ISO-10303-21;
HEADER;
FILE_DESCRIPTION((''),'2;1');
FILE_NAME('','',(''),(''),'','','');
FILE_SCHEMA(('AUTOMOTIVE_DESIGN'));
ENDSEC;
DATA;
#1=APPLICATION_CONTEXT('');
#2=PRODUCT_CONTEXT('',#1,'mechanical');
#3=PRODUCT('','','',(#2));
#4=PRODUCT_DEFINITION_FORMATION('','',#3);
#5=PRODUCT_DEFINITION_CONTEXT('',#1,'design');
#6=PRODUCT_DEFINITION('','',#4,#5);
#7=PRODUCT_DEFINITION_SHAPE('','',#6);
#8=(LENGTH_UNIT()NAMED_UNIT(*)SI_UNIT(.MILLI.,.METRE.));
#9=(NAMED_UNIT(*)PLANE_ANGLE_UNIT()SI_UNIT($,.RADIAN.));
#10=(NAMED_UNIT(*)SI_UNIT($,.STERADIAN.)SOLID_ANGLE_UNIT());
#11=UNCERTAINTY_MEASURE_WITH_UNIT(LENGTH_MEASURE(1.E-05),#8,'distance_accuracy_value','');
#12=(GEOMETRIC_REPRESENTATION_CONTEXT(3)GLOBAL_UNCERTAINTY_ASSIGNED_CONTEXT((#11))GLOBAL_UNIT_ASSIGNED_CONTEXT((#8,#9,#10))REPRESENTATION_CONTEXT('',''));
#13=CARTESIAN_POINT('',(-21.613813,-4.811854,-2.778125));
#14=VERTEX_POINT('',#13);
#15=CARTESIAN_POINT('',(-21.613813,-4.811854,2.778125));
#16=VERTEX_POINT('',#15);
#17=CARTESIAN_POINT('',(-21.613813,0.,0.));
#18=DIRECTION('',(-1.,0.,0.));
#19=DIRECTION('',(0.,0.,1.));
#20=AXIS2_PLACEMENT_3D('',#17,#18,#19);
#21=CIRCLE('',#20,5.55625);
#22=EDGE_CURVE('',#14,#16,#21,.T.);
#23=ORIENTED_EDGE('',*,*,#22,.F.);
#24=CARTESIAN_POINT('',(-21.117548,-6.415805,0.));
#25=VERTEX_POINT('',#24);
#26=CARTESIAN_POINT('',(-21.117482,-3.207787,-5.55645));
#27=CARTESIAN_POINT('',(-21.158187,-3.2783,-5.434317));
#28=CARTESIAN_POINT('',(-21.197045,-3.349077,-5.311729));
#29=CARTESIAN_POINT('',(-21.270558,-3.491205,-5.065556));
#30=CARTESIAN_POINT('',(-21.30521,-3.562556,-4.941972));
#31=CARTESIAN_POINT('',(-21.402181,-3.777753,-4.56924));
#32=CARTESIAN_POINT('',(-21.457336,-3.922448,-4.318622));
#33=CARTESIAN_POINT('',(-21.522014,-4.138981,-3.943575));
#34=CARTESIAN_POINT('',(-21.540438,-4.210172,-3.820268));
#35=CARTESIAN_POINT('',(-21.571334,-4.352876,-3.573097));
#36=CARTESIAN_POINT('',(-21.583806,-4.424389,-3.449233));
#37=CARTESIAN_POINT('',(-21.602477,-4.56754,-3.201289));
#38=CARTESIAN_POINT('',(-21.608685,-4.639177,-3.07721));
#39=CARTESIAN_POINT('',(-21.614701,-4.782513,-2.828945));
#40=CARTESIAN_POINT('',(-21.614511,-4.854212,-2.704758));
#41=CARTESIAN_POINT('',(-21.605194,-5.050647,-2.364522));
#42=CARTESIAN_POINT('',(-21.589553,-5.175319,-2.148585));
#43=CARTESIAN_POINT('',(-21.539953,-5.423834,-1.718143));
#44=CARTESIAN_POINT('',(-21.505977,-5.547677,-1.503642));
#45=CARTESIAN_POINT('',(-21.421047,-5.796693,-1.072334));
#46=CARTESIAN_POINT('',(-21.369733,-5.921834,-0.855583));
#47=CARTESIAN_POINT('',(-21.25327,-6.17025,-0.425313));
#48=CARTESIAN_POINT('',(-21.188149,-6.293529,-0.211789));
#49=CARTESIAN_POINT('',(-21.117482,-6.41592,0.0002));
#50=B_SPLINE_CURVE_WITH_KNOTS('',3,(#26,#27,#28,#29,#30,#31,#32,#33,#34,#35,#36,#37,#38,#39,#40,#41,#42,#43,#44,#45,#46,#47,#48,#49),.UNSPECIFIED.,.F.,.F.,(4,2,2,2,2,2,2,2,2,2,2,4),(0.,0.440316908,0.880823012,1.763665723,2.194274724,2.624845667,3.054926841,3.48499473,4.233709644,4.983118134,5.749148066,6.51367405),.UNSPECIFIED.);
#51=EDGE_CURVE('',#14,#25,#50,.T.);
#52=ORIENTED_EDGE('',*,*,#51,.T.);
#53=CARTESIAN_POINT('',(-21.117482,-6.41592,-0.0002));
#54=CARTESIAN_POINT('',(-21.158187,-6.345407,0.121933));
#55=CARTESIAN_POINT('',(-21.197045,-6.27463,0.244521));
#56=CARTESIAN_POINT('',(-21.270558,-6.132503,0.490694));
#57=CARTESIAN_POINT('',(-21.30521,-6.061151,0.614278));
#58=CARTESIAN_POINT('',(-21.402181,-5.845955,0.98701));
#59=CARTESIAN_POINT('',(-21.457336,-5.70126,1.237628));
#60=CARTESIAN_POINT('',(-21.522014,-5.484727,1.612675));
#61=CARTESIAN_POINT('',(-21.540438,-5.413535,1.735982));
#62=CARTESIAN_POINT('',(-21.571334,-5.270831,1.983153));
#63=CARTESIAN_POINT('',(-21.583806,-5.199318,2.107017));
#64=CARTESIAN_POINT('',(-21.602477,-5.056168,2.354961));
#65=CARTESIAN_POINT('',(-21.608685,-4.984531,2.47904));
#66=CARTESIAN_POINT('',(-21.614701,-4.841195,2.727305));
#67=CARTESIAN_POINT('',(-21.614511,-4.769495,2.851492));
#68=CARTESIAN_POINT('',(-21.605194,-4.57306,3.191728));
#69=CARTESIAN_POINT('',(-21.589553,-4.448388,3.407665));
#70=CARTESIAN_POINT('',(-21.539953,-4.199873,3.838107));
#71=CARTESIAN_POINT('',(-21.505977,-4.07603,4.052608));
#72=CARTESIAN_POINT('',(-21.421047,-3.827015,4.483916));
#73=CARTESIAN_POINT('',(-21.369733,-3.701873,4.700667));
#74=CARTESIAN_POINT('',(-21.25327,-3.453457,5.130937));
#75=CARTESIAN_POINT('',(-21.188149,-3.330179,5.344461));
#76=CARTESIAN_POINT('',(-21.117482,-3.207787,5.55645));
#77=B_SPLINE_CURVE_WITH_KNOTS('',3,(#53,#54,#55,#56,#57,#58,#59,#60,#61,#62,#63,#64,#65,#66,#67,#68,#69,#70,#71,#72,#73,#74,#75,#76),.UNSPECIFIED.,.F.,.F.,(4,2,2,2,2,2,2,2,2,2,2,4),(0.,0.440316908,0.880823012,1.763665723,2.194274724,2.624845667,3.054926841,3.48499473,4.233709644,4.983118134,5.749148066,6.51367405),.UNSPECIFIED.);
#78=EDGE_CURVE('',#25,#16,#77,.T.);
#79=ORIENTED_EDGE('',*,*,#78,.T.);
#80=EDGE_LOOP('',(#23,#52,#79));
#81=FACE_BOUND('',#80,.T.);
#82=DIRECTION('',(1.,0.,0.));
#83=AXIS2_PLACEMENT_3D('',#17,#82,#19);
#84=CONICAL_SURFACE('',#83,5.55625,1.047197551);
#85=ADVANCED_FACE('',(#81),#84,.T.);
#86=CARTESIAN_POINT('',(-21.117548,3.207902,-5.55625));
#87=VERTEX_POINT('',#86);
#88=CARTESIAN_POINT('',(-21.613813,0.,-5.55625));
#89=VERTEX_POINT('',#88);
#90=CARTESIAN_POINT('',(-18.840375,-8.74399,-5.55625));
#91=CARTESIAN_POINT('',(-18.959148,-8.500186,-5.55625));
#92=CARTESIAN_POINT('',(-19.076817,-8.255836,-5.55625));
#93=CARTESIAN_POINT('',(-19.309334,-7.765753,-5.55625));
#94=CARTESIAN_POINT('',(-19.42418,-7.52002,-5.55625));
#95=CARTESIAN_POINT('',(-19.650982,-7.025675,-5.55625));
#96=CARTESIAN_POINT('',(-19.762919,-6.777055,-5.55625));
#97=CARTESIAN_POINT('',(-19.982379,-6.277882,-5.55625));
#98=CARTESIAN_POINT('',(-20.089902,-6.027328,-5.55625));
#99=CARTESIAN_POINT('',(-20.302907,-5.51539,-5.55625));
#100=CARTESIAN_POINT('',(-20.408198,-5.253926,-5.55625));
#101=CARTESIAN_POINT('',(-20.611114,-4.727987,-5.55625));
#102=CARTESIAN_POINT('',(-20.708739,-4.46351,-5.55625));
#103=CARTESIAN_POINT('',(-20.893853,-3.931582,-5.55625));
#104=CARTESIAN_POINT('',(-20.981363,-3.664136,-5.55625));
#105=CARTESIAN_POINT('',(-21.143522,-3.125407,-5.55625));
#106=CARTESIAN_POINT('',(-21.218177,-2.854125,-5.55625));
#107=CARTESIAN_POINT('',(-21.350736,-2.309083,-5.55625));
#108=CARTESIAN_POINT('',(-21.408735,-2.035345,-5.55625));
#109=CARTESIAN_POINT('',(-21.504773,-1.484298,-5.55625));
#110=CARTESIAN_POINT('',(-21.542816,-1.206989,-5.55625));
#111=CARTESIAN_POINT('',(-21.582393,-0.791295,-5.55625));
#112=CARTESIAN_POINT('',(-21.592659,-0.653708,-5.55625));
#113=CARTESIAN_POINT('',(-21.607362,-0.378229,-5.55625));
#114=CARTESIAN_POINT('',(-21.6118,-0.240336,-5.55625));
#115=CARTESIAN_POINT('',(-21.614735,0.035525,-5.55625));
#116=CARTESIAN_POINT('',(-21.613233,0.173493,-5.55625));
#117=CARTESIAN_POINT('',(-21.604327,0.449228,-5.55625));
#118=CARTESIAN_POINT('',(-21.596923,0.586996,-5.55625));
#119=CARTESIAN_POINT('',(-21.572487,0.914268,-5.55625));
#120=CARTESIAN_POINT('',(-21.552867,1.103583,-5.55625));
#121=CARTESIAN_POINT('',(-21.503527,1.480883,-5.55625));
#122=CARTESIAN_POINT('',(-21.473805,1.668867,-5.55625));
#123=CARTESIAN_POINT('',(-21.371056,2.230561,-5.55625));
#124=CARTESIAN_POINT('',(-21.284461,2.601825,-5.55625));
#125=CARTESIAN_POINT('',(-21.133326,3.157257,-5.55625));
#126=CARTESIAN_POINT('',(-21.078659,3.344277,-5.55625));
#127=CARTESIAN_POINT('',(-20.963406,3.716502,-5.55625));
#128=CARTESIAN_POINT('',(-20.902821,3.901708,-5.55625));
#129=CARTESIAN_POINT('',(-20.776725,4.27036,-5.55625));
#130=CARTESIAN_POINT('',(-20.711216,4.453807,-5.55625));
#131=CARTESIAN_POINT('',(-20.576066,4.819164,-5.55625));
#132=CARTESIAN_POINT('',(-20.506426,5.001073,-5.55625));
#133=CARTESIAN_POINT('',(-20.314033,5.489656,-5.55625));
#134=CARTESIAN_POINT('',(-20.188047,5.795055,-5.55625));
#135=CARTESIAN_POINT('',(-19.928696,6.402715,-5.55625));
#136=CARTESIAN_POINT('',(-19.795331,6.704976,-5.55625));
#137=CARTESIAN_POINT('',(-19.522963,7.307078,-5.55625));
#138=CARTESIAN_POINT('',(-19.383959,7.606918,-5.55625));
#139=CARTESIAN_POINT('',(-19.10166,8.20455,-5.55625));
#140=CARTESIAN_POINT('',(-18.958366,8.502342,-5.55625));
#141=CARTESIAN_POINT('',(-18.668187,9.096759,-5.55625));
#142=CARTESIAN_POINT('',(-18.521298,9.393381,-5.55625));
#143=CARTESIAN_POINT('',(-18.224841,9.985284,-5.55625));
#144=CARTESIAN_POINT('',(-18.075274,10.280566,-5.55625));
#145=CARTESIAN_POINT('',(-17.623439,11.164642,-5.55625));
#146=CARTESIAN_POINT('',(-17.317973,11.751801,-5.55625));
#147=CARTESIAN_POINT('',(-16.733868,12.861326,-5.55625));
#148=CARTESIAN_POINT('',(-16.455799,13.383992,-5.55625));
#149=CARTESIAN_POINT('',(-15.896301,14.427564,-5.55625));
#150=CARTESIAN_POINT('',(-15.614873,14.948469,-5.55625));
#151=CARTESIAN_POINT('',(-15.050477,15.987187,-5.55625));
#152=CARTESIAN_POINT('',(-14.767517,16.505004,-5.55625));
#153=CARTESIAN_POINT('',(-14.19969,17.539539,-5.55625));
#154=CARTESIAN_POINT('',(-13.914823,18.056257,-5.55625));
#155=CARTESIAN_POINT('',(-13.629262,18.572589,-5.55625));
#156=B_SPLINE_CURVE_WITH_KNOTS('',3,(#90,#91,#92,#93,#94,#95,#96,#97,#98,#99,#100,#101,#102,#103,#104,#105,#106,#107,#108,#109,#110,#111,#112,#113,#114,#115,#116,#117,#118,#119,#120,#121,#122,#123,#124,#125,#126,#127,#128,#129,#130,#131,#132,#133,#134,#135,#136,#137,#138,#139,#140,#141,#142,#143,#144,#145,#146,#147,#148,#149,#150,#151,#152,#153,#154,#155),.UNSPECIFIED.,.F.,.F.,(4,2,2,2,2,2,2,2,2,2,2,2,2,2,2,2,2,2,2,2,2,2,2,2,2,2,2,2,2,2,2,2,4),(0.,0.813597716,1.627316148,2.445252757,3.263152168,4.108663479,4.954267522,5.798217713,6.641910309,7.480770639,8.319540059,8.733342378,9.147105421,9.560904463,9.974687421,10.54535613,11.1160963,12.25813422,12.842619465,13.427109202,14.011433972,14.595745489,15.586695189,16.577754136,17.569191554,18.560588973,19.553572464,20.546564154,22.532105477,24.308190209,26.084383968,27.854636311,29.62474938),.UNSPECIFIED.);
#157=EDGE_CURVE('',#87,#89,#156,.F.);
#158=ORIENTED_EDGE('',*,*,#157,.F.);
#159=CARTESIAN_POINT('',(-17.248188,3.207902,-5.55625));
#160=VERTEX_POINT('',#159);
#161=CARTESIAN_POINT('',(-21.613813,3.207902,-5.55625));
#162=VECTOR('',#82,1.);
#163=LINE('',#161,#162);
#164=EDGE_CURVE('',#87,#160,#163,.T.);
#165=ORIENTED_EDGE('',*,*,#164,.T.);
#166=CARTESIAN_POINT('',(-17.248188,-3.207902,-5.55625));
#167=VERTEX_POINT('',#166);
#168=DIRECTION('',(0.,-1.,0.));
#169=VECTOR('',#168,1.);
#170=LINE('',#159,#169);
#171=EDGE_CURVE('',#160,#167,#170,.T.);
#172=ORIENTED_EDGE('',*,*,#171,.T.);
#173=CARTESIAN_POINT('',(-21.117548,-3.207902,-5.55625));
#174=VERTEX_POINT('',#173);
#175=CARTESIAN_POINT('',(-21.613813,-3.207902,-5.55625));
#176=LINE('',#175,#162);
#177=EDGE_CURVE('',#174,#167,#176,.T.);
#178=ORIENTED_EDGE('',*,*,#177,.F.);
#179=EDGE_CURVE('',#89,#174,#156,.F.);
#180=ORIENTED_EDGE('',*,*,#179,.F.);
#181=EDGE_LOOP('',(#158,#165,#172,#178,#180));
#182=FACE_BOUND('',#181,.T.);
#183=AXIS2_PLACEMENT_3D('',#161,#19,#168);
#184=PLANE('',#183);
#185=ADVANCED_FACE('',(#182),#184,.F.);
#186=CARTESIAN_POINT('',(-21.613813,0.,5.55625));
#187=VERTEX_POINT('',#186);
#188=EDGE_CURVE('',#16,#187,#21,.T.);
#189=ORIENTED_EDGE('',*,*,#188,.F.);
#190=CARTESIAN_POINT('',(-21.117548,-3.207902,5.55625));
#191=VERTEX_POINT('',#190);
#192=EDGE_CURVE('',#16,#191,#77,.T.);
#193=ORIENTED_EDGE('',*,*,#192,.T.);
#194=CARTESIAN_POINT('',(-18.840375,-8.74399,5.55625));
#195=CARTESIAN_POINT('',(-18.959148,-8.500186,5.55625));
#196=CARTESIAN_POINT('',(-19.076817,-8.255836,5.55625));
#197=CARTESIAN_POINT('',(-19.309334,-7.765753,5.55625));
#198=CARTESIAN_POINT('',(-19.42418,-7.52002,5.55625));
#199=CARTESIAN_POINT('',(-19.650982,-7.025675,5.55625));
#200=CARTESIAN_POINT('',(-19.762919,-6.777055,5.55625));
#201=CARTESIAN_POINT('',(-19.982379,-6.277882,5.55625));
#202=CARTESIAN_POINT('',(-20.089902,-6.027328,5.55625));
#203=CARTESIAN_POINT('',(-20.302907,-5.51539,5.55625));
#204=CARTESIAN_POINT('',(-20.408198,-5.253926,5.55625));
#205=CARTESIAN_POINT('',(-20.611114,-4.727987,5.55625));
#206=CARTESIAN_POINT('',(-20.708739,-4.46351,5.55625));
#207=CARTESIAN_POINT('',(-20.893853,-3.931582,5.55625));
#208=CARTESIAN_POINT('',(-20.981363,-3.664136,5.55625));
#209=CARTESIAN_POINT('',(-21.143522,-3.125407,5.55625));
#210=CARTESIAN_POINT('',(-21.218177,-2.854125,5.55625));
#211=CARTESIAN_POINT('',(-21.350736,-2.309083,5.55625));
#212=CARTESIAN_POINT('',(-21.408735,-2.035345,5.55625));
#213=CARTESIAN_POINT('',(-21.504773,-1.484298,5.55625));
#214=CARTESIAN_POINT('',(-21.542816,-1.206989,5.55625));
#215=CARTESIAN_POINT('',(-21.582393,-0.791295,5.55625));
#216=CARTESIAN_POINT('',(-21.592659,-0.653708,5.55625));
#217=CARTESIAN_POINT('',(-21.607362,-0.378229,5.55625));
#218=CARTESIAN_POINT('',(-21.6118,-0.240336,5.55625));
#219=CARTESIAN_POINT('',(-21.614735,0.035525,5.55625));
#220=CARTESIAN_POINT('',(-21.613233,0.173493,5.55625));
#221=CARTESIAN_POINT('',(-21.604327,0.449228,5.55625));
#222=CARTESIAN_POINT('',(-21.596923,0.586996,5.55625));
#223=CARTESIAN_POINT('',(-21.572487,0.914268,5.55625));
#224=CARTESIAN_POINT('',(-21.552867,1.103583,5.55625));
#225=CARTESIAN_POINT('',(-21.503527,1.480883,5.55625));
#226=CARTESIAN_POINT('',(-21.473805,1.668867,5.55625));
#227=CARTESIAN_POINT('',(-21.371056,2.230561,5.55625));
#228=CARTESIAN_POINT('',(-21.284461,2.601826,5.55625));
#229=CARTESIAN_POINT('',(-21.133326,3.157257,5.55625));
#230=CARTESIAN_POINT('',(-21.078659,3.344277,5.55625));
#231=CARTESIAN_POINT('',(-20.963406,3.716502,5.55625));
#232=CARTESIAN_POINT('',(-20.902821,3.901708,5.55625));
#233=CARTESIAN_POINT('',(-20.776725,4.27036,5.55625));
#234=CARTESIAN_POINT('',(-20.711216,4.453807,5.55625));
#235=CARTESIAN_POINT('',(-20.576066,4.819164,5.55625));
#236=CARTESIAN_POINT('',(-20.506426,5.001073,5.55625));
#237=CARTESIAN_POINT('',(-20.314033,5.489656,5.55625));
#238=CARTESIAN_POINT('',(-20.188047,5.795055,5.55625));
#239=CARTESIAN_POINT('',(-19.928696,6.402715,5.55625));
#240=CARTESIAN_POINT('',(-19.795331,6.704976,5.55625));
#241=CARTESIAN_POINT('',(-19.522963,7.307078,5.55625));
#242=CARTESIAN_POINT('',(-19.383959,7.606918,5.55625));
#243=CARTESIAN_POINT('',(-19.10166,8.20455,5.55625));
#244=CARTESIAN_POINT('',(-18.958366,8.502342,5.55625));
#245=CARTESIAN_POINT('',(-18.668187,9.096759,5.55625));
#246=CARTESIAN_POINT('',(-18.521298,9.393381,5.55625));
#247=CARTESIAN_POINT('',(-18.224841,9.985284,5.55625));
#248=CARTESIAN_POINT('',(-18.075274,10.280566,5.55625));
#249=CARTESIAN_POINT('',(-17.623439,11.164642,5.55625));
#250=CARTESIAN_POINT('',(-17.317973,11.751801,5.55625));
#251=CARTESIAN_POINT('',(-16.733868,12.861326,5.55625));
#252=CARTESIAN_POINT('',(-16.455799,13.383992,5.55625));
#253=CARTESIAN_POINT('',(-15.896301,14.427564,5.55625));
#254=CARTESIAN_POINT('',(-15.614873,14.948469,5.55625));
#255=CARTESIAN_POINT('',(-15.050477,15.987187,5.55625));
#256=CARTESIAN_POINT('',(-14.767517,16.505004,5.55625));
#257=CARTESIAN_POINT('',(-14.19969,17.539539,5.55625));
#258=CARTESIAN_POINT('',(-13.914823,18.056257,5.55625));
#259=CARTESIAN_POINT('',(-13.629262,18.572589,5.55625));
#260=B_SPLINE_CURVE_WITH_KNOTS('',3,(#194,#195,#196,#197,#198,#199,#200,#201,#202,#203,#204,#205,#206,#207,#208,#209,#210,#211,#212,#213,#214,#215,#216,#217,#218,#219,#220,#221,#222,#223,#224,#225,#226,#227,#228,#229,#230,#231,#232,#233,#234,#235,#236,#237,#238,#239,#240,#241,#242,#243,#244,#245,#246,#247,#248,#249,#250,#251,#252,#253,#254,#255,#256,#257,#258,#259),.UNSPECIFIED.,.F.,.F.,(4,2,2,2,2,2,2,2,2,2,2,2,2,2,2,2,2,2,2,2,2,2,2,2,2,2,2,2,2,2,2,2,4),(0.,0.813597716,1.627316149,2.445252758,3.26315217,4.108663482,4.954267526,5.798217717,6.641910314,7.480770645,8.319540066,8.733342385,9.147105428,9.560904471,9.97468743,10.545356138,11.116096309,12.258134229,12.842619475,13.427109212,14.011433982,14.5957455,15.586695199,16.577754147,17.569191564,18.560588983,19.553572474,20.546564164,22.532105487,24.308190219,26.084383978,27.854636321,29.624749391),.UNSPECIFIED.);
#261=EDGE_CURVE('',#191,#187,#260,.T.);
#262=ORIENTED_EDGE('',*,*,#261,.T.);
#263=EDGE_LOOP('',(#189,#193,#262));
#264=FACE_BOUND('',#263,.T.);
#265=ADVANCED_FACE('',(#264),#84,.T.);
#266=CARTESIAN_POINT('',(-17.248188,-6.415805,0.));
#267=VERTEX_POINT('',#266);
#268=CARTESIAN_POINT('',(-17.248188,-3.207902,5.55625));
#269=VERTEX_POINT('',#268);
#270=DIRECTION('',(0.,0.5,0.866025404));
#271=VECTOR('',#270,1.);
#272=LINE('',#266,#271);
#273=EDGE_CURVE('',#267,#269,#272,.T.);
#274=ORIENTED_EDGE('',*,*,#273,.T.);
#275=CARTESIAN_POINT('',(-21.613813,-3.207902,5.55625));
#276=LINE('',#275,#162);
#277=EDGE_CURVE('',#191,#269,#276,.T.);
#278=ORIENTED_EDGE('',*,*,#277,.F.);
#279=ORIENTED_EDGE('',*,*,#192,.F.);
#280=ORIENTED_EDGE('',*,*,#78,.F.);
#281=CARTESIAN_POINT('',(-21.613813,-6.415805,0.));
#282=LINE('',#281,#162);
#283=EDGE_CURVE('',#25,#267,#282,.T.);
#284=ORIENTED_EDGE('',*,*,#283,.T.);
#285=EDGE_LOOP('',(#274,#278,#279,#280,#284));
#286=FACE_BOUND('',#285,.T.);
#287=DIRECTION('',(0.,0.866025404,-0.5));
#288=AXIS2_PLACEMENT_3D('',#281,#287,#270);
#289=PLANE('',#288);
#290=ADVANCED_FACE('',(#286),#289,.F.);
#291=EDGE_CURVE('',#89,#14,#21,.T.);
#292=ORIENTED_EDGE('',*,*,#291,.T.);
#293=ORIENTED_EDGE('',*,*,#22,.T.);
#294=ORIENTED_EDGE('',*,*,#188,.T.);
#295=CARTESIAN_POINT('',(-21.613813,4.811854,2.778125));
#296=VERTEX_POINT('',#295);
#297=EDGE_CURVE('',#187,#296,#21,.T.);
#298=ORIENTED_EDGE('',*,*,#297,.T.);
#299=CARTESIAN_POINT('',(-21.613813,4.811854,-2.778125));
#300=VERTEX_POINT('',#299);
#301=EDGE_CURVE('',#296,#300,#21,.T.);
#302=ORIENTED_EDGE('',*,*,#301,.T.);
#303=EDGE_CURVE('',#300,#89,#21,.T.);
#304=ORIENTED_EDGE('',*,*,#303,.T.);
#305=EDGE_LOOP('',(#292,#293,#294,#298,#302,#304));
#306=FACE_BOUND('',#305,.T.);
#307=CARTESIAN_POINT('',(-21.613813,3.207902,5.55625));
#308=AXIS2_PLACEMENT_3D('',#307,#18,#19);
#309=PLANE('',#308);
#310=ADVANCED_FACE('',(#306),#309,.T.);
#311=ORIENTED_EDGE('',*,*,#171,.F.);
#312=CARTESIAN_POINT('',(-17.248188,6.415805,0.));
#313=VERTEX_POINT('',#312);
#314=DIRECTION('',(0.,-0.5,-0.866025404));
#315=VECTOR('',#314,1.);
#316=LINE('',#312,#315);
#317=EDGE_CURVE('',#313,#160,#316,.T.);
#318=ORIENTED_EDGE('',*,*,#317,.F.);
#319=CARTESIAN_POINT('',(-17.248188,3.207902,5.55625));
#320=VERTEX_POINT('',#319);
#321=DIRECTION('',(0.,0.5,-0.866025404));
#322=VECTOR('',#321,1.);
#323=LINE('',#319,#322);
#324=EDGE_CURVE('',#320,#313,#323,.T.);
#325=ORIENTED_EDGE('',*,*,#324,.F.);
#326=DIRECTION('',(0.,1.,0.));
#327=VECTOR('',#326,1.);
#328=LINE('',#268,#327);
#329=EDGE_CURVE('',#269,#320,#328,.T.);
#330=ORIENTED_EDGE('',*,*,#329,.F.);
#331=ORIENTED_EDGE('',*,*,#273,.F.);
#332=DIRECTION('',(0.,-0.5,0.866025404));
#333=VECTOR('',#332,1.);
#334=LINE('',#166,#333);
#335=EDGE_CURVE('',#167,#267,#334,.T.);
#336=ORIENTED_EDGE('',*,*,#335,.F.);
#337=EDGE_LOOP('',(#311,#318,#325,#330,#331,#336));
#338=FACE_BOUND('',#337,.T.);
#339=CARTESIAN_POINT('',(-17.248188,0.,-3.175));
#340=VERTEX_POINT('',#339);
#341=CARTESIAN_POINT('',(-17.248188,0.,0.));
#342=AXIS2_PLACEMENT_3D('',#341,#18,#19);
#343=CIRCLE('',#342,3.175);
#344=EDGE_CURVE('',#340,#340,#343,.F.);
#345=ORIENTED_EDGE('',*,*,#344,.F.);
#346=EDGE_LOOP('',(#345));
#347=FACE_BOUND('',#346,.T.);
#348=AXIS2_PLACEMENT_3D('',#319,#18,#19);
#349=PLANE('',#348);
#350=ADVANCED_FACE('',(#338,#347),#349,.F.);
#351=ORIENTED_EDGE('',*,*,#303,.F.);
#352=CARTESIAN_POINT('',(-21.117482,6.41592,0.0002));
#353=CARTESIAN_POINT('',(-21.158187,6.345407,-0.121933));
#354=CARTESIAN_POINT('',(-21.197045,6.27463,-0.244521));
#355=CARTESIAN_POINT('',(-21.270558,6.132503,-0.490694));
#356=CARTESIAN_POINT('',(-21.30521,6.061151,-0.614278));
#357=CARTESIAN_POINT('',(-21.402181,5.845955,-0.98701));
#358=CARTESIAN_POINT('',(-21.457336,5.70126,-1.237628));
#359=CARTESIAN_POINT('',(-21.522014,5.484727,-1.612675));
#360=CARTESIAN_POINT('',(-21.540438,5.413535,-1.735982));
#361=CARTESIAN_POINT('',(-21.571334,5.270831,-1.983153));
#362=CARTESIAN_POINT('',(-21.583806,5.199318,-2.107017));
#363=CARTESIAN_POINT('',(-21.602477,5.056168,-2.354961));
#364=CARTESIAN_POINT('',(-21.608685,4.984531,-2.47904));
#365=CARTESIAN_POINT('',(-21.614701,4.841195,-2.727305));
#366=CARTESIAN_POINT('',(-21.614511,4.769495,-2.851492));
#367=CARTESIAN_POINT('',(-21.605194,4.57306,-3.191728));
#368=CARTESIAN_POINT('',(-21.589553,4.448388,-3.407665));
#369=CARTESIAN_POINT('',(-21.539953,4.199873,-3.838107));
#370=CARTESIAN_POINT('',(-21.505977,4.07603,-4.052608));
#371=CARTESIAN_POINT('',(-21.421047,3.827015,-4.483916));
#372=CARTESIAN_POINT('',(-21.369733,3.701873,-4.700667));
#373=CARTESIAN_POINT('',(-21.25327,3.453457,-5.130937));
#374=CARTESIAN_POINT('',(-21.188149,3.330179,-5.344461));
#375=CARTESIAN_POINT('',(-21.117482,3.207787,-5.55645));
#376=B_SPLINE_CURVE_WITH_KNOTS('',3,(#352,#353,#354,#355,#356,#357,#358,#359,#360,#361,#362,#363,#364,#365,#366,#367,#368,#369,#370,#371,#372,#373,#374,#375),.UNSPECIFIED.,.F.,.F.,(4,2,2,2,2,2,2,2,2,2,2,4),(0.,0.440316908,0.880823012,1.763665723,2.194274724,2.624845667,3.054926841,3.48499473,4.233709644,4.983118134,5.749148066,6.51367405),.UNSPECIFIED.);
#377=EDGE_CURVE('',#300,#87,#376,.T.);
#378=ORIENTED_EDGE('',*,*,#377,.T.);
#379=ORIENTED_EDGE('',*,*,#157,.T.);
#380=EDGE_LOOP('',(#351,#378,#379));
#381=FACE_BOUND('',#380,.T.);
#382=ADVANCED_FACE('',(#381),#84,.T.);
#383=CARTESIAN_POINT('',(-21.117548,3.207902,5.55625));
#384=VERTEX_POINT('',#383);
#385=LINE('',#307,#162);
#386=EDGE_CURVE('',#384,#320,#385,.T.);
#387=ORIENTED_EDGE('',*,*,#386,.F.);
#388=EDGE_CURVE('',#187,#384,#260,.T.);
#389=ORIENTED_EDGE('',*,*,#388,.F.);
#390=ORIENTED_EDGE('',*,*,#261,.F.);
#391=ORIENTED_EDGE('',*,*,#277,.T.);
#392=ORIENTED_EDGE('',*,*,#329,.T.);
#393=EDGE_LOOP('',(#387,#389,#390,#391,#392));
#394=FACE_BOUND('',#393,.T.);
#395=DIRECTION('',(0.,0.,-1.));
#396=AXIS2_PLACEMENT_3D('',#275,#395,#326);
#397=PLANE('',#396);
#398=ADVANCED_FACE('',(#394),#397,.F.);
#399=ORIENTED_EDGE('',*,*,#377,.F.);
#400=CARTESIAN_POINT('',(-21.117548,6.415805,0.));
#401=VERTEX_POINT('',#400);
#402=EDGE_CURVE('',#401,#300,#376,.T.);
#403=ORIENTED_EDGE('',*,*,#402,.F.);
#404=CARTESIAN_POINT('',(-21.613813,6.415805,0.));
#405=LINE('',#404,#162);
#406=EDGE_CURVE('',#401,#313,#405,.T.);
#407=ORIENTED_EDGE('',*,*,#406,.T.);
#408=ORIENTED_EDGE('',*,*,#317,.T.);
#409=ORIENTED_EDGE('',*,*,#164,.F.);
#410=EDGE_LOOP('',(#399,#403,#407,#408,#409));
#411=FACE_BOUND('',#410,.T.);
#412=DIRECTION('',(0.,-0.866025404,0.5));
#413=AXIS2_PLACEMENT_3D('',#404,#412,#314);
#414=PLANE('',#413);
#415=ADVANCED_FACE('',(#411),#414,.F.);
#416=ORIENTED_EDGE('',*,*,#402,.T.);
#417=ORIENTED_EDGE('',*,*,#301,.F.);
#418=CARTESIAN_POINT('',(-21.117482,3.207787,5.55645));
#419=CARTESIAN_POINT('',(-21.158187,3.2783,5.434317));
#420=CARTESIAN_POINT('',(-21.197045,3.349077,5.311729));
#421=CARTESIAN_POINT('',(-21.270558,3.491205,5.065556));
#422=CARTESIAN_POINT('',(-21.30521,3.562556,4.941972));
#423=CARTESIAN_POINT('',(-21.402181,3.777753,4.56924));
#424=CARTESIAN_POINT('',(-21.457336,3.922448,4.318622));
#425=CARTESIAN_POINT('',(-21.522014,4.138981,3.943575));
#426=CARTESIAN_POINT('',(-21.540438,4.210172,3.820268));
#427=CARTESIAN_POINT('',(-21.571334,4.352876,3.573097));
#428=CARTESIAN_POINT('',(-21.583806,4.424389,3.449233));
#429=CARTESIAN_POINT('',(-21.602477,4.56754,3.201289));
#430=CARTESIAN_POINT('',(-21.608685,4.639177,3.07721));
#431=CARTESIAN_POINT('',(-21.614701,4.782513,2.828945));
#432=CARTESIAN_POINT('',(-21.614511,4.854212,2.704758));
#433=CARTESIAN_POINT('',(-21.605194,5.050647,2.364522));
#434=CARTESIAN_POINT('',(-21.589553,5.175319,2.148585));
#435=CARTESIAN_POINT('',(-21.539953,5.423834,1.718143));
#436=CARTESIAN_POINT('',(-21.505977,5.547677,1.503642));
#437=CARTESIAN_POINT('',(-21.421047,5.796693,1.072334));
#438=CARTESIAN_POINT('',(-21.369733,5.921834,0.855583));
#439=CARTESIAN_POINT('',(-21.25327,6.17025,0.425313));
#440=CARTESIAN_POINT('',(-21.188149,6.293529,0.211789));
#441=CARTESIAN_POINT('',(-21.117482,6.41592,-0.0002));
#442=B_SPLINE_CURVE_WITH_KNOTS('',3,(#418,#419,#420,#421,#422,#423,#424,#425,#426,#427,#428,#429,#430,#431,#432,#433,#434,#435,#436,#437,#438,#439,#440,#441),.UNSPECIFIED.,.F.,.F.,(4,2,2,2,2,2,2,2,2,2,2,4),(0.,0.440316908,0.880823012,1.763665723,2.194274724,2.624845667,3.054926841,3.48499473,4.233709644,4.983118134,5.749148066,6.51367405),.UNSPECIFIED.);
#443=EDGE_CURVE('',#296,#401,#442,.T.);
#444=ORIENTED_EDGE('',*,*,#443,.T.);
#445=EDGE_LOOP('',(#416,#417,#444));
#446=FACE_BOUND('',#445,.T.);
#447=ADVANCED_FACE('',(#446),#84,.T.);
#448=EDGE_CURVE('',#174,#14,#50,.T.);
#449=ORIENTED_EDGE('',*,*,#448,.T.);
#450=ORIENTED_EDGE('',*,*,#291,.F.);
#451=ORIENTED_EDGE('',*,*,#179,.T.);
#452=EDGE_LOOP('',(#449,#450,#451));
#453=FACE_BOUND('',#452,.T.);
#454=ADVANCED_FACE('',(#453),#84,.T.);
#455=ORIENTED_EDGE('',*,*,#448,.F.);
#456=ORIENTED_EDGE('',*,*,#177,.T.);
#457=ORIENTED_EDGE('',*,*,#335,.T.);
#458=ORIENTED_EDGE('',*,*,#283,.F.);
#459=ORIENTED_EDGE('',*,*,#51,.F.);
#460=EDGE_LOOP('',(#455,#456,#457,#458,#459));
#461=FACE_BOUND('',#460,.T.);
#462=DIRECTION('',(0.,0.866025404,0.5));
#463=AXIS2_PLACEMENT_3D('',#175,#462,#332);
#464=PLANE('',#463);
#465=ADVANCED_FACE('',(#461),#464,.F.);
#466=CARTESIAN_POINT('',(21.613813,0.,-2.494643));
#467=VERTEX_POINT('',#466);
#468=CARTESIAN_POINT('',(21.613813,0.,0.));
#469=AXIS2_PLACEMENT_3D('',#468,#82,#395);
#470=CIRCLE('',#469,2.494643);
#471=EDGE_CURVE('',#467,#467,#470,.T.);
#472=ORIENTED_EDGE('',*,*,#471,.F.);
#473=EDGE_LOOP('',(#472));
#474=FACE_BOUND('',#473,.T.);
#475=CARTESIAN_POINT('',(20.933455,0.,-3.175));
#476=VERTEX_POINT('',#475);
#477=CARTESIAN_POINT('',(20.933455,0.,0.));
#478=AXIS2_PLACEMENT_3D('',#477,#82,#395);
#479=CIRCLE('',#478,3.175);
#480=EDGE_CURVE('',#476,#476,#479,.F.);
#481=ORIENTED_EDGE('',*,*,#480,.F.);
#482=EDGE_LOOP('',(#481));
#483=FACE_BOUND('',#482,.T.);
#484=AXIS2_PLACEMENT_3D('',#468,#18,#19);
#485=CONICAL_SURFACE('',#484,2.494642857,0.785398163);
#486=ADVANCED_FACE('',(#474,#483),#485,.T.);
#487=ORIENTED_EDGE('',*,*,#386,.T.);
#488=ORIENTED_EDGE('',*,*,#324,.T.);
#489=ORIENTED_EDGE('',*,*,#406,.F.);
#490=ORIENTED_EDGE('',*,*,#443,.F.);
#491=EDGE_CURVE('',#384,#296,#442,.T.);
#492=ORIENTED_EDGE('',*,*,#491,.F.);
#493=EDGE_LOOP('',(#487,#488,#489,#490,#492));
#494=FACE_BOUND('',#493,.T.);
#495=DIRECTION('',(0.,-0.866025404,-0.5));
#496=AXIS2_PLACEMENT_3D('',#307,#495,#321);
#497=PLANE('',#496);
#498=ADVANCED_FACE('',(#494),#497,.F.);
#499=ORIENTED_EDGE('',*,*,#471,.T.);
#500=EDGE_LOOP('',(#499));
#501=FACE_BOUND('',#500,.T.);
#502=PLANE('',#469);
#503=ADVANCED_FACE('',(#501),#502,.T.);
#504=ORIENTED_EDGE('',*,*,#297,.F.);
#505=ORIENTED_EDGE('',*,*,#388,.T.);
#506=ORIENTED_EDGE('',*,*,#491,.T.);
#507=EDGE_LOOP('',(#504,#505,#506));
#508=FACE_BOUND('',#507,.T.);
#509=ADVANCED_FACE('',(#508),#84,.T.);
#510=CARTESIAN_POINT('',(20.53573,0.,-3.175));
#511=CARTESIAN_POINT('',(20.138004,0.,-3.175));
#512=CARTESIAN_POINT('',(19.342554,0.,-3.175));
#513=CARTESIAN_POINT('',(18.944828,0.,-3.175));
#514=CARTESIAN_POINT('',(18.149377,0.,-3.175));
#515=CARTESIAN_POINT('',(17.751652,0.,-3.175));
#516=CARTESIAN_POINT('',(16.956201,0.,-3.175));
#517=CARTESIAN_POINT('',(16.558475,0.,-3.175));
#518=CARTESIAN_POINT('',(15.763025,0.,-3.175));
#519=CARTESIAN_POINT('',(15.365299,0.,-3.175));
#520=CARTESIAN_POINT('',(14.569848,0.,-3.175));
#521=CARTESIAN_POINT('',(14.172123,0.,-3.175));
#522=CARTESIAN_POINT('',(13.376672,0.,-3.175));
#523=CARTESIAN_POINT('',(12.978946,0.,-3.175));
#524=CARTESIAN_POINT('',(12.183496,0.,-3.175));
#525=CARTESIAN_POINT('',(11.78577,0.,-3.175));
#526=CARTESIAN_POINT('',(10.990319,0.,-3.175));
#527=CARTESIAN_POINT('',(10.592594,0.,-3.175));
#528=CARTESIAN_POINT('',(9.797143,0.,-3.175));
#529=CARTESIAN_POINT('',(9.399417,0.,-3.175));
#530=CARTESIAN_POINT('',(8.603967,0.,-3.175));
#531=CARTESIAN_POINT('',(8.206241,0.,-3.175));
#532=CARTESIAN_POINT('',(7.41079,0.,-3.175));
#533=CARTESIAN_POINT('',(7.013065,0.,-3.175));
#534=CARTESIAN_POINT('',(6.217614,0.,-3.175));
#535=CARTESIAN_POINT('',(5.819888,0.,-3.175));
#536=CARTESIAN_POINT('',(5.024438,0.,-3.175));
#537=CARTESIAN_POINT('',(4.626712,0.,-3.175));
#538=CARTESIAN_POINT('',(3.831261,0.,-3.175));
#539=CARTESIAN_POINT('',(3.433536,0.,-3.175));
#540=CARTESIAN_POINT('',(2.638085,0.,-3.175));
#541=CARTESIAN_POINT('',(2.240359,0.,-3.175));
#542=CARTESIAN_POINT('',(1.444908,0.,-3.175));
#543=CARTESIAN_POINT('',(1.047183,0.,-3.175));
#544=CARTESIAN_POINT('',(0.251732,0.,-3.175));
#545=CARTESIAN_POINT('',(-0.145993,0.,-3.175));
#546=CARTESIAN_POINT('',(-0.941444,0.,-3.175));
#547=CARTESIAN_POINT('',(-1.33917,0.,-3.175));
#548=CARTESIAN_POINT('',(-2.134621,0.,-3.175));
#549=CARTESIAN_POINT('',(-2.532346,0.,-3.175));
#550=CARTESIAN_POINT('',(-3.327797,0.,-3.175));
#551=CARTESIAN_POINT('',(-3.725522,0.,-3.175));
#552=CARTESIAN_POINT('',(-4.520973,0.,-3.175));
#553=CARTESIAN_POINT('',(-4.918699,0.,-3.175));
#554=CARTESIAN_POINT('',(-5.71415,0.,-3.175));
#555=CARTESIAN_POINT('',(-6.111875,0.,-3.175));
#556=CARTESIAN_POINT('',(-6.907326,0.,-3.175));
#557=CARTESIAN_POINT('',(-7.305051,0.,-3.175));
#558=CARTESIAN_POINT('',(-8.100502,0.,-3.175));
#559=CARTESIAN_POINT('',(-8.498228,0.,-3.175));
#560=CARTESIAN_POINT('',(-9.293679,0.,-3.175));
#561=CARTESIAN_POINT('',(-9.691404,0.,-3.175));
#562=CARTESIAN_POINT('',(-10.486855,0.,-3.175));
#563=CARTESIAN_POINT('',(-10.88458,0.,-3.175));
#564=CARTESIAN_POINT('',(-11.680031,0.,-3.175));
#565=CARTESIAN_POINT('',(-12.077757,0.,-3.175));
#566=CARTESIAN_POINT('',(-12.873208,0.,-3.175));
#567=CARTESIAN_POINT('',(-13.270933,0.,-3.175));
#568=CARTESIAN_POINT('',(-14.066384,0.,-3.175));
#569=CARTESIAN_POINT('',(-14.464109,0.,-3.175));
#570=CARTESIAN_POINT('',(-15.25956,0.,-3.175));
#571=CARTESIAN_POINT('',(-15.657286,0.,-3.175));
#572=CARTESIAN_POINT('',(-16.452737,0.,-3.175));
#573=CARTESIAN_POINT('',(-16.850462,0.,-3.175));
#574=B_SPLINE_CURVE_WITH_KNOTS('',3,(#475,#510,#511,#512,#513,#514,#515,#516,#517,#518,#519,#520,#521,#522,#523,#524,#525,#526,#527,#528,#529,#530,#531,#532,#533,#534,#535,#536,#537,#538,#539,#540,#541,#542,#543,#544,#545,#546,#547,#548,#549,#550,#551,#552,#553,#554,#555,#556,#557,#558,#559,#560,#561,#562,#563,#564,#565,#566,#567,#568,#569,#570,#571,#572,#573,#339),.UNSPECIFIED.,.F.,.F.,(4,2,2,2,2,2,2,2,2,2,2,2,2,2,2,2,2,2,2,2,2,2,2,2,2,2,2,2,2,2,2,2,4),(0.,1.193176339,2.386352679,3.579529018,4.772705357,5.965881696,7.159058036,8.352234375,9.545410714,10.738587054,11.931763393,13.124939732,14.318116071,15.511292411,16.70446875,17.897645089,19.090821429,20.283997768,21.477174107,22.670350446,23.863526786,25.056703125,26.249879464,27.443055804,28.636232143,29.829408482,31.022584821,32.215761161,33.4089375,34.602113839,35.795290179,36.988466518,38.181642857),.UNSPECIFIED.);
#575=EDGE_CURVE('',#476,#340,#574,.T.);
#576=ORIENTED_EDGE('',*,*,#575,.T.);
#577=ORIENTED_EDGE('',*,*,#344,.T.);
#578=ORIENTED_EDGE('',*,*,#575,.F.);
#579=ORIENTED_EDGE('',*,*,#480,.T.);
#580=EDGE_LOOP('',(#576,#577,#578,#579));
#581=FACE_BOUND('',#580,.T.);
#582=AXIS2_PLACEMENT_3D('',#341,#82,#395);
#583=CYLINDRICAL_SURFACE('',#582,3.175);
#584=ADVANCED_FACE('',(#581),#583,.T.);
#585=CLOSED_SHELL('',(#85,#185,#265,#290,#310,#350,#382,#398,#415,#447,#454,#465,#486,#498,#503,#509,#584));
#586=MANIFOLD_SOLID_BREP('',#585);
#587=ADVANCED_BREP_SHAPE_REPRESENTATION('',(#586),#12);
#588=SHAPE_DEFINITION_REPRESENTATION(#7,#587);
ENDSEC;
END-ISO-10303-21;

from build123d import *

# Parameters (mm, degrees)
SKETCH5_R           = 3.175
BOSS_EXTRUDE3_DEPTH = 38.862
CHAMFER1_SIZE       = 0.680357143
BOSS_EXTRUDE4_DEPTH = 4.365625
SKETCH8_OUTSIDE_W   = 178.468
SKETCH8_OUTSIDE_H   = 180.188
SKETCH8_OUTSIDE_R   = 5.55625
CUT_EXTRUDE3_DEPTH  = 45.05294575
CUT_EXTRUDE3_DRAFT  = -60


with BuildPart() as part:
    # Sketch5 → Boss-Extrude3 (new body)
    with BuildSketch(Plane(origin=(21.6138125, 0, 0), x_dir=(0, 0, -1), z_dir=(1, 0, 0))):
        Circle(SKETCH5_R)
    extrude(amount=-BOSS_EXTRUDE3_DEPTH)

    # Chamfer1
    chamfer1_edges = [part.edges().sort_by_distance(p)[0] for p in [
        (21.6138125, 0, 3.175),
    ]]
    chamfer(chamfer1_edges, length=CHAMFER1_SIZE)

    # Sketch6 → Boss-Extrude4 (add)
    with BuildSketch(Plane.ZY.offset(17.2481875)):
        Polygon((5.55625, 3.207902433), (0, 6.415804866), (-5.55625, 3.207902433), (-5.55625, -3.207902433), (0, -6.415804866), (5.55625, -3.207902433), align=None)
    extrude(amount=BOSS_EXTRUDE4_DEPTH)


with BuildPart() as cut_extrude3_tool:
    # Sketch8 outside → Cut-Extrude3 (with draft: the straight prism first)
    with BuildSketch(Plane.ZY.offset(21.6138125)):
        Rectangle(SKETCH8_OUTSIDE_W, SKETCH8_OUTSIDE_H)
        Circle(SKETCH8_OUTSIDE_R, mode=Mode.SUBTRACT)
    extrude(amount=-CUT_EXTRUDE3_DEPTH)
    # Cut-Extrude3: the draft: its side faces are tilted about the plane it starts from
    cut_extrude3_sides = [cut_extrude3_tool.faces().sort_by_distance(p)[0] for p in [
        (0.912660375, -90.094, 0),
        (0.912660375, 0, 89.234),
        (0.912660375, 90.094, 0),
        (0.912660375, 0, -89.234),
        (0.912660375, 0, -5.55625),
    ]]
    draft(cut_extrude3_sides, Plane.ZY.offset(21.6138125), CUT_EXTRUDE3_DRAFT)


with BuildPart() as part_1:
    add(part.part)

    # Cut-Extrude3: cut by cut_extrude3_tool
    add(cut_extrude3_tool.part, mode=Mode.SUBTRACT)


solid = part_1.part
